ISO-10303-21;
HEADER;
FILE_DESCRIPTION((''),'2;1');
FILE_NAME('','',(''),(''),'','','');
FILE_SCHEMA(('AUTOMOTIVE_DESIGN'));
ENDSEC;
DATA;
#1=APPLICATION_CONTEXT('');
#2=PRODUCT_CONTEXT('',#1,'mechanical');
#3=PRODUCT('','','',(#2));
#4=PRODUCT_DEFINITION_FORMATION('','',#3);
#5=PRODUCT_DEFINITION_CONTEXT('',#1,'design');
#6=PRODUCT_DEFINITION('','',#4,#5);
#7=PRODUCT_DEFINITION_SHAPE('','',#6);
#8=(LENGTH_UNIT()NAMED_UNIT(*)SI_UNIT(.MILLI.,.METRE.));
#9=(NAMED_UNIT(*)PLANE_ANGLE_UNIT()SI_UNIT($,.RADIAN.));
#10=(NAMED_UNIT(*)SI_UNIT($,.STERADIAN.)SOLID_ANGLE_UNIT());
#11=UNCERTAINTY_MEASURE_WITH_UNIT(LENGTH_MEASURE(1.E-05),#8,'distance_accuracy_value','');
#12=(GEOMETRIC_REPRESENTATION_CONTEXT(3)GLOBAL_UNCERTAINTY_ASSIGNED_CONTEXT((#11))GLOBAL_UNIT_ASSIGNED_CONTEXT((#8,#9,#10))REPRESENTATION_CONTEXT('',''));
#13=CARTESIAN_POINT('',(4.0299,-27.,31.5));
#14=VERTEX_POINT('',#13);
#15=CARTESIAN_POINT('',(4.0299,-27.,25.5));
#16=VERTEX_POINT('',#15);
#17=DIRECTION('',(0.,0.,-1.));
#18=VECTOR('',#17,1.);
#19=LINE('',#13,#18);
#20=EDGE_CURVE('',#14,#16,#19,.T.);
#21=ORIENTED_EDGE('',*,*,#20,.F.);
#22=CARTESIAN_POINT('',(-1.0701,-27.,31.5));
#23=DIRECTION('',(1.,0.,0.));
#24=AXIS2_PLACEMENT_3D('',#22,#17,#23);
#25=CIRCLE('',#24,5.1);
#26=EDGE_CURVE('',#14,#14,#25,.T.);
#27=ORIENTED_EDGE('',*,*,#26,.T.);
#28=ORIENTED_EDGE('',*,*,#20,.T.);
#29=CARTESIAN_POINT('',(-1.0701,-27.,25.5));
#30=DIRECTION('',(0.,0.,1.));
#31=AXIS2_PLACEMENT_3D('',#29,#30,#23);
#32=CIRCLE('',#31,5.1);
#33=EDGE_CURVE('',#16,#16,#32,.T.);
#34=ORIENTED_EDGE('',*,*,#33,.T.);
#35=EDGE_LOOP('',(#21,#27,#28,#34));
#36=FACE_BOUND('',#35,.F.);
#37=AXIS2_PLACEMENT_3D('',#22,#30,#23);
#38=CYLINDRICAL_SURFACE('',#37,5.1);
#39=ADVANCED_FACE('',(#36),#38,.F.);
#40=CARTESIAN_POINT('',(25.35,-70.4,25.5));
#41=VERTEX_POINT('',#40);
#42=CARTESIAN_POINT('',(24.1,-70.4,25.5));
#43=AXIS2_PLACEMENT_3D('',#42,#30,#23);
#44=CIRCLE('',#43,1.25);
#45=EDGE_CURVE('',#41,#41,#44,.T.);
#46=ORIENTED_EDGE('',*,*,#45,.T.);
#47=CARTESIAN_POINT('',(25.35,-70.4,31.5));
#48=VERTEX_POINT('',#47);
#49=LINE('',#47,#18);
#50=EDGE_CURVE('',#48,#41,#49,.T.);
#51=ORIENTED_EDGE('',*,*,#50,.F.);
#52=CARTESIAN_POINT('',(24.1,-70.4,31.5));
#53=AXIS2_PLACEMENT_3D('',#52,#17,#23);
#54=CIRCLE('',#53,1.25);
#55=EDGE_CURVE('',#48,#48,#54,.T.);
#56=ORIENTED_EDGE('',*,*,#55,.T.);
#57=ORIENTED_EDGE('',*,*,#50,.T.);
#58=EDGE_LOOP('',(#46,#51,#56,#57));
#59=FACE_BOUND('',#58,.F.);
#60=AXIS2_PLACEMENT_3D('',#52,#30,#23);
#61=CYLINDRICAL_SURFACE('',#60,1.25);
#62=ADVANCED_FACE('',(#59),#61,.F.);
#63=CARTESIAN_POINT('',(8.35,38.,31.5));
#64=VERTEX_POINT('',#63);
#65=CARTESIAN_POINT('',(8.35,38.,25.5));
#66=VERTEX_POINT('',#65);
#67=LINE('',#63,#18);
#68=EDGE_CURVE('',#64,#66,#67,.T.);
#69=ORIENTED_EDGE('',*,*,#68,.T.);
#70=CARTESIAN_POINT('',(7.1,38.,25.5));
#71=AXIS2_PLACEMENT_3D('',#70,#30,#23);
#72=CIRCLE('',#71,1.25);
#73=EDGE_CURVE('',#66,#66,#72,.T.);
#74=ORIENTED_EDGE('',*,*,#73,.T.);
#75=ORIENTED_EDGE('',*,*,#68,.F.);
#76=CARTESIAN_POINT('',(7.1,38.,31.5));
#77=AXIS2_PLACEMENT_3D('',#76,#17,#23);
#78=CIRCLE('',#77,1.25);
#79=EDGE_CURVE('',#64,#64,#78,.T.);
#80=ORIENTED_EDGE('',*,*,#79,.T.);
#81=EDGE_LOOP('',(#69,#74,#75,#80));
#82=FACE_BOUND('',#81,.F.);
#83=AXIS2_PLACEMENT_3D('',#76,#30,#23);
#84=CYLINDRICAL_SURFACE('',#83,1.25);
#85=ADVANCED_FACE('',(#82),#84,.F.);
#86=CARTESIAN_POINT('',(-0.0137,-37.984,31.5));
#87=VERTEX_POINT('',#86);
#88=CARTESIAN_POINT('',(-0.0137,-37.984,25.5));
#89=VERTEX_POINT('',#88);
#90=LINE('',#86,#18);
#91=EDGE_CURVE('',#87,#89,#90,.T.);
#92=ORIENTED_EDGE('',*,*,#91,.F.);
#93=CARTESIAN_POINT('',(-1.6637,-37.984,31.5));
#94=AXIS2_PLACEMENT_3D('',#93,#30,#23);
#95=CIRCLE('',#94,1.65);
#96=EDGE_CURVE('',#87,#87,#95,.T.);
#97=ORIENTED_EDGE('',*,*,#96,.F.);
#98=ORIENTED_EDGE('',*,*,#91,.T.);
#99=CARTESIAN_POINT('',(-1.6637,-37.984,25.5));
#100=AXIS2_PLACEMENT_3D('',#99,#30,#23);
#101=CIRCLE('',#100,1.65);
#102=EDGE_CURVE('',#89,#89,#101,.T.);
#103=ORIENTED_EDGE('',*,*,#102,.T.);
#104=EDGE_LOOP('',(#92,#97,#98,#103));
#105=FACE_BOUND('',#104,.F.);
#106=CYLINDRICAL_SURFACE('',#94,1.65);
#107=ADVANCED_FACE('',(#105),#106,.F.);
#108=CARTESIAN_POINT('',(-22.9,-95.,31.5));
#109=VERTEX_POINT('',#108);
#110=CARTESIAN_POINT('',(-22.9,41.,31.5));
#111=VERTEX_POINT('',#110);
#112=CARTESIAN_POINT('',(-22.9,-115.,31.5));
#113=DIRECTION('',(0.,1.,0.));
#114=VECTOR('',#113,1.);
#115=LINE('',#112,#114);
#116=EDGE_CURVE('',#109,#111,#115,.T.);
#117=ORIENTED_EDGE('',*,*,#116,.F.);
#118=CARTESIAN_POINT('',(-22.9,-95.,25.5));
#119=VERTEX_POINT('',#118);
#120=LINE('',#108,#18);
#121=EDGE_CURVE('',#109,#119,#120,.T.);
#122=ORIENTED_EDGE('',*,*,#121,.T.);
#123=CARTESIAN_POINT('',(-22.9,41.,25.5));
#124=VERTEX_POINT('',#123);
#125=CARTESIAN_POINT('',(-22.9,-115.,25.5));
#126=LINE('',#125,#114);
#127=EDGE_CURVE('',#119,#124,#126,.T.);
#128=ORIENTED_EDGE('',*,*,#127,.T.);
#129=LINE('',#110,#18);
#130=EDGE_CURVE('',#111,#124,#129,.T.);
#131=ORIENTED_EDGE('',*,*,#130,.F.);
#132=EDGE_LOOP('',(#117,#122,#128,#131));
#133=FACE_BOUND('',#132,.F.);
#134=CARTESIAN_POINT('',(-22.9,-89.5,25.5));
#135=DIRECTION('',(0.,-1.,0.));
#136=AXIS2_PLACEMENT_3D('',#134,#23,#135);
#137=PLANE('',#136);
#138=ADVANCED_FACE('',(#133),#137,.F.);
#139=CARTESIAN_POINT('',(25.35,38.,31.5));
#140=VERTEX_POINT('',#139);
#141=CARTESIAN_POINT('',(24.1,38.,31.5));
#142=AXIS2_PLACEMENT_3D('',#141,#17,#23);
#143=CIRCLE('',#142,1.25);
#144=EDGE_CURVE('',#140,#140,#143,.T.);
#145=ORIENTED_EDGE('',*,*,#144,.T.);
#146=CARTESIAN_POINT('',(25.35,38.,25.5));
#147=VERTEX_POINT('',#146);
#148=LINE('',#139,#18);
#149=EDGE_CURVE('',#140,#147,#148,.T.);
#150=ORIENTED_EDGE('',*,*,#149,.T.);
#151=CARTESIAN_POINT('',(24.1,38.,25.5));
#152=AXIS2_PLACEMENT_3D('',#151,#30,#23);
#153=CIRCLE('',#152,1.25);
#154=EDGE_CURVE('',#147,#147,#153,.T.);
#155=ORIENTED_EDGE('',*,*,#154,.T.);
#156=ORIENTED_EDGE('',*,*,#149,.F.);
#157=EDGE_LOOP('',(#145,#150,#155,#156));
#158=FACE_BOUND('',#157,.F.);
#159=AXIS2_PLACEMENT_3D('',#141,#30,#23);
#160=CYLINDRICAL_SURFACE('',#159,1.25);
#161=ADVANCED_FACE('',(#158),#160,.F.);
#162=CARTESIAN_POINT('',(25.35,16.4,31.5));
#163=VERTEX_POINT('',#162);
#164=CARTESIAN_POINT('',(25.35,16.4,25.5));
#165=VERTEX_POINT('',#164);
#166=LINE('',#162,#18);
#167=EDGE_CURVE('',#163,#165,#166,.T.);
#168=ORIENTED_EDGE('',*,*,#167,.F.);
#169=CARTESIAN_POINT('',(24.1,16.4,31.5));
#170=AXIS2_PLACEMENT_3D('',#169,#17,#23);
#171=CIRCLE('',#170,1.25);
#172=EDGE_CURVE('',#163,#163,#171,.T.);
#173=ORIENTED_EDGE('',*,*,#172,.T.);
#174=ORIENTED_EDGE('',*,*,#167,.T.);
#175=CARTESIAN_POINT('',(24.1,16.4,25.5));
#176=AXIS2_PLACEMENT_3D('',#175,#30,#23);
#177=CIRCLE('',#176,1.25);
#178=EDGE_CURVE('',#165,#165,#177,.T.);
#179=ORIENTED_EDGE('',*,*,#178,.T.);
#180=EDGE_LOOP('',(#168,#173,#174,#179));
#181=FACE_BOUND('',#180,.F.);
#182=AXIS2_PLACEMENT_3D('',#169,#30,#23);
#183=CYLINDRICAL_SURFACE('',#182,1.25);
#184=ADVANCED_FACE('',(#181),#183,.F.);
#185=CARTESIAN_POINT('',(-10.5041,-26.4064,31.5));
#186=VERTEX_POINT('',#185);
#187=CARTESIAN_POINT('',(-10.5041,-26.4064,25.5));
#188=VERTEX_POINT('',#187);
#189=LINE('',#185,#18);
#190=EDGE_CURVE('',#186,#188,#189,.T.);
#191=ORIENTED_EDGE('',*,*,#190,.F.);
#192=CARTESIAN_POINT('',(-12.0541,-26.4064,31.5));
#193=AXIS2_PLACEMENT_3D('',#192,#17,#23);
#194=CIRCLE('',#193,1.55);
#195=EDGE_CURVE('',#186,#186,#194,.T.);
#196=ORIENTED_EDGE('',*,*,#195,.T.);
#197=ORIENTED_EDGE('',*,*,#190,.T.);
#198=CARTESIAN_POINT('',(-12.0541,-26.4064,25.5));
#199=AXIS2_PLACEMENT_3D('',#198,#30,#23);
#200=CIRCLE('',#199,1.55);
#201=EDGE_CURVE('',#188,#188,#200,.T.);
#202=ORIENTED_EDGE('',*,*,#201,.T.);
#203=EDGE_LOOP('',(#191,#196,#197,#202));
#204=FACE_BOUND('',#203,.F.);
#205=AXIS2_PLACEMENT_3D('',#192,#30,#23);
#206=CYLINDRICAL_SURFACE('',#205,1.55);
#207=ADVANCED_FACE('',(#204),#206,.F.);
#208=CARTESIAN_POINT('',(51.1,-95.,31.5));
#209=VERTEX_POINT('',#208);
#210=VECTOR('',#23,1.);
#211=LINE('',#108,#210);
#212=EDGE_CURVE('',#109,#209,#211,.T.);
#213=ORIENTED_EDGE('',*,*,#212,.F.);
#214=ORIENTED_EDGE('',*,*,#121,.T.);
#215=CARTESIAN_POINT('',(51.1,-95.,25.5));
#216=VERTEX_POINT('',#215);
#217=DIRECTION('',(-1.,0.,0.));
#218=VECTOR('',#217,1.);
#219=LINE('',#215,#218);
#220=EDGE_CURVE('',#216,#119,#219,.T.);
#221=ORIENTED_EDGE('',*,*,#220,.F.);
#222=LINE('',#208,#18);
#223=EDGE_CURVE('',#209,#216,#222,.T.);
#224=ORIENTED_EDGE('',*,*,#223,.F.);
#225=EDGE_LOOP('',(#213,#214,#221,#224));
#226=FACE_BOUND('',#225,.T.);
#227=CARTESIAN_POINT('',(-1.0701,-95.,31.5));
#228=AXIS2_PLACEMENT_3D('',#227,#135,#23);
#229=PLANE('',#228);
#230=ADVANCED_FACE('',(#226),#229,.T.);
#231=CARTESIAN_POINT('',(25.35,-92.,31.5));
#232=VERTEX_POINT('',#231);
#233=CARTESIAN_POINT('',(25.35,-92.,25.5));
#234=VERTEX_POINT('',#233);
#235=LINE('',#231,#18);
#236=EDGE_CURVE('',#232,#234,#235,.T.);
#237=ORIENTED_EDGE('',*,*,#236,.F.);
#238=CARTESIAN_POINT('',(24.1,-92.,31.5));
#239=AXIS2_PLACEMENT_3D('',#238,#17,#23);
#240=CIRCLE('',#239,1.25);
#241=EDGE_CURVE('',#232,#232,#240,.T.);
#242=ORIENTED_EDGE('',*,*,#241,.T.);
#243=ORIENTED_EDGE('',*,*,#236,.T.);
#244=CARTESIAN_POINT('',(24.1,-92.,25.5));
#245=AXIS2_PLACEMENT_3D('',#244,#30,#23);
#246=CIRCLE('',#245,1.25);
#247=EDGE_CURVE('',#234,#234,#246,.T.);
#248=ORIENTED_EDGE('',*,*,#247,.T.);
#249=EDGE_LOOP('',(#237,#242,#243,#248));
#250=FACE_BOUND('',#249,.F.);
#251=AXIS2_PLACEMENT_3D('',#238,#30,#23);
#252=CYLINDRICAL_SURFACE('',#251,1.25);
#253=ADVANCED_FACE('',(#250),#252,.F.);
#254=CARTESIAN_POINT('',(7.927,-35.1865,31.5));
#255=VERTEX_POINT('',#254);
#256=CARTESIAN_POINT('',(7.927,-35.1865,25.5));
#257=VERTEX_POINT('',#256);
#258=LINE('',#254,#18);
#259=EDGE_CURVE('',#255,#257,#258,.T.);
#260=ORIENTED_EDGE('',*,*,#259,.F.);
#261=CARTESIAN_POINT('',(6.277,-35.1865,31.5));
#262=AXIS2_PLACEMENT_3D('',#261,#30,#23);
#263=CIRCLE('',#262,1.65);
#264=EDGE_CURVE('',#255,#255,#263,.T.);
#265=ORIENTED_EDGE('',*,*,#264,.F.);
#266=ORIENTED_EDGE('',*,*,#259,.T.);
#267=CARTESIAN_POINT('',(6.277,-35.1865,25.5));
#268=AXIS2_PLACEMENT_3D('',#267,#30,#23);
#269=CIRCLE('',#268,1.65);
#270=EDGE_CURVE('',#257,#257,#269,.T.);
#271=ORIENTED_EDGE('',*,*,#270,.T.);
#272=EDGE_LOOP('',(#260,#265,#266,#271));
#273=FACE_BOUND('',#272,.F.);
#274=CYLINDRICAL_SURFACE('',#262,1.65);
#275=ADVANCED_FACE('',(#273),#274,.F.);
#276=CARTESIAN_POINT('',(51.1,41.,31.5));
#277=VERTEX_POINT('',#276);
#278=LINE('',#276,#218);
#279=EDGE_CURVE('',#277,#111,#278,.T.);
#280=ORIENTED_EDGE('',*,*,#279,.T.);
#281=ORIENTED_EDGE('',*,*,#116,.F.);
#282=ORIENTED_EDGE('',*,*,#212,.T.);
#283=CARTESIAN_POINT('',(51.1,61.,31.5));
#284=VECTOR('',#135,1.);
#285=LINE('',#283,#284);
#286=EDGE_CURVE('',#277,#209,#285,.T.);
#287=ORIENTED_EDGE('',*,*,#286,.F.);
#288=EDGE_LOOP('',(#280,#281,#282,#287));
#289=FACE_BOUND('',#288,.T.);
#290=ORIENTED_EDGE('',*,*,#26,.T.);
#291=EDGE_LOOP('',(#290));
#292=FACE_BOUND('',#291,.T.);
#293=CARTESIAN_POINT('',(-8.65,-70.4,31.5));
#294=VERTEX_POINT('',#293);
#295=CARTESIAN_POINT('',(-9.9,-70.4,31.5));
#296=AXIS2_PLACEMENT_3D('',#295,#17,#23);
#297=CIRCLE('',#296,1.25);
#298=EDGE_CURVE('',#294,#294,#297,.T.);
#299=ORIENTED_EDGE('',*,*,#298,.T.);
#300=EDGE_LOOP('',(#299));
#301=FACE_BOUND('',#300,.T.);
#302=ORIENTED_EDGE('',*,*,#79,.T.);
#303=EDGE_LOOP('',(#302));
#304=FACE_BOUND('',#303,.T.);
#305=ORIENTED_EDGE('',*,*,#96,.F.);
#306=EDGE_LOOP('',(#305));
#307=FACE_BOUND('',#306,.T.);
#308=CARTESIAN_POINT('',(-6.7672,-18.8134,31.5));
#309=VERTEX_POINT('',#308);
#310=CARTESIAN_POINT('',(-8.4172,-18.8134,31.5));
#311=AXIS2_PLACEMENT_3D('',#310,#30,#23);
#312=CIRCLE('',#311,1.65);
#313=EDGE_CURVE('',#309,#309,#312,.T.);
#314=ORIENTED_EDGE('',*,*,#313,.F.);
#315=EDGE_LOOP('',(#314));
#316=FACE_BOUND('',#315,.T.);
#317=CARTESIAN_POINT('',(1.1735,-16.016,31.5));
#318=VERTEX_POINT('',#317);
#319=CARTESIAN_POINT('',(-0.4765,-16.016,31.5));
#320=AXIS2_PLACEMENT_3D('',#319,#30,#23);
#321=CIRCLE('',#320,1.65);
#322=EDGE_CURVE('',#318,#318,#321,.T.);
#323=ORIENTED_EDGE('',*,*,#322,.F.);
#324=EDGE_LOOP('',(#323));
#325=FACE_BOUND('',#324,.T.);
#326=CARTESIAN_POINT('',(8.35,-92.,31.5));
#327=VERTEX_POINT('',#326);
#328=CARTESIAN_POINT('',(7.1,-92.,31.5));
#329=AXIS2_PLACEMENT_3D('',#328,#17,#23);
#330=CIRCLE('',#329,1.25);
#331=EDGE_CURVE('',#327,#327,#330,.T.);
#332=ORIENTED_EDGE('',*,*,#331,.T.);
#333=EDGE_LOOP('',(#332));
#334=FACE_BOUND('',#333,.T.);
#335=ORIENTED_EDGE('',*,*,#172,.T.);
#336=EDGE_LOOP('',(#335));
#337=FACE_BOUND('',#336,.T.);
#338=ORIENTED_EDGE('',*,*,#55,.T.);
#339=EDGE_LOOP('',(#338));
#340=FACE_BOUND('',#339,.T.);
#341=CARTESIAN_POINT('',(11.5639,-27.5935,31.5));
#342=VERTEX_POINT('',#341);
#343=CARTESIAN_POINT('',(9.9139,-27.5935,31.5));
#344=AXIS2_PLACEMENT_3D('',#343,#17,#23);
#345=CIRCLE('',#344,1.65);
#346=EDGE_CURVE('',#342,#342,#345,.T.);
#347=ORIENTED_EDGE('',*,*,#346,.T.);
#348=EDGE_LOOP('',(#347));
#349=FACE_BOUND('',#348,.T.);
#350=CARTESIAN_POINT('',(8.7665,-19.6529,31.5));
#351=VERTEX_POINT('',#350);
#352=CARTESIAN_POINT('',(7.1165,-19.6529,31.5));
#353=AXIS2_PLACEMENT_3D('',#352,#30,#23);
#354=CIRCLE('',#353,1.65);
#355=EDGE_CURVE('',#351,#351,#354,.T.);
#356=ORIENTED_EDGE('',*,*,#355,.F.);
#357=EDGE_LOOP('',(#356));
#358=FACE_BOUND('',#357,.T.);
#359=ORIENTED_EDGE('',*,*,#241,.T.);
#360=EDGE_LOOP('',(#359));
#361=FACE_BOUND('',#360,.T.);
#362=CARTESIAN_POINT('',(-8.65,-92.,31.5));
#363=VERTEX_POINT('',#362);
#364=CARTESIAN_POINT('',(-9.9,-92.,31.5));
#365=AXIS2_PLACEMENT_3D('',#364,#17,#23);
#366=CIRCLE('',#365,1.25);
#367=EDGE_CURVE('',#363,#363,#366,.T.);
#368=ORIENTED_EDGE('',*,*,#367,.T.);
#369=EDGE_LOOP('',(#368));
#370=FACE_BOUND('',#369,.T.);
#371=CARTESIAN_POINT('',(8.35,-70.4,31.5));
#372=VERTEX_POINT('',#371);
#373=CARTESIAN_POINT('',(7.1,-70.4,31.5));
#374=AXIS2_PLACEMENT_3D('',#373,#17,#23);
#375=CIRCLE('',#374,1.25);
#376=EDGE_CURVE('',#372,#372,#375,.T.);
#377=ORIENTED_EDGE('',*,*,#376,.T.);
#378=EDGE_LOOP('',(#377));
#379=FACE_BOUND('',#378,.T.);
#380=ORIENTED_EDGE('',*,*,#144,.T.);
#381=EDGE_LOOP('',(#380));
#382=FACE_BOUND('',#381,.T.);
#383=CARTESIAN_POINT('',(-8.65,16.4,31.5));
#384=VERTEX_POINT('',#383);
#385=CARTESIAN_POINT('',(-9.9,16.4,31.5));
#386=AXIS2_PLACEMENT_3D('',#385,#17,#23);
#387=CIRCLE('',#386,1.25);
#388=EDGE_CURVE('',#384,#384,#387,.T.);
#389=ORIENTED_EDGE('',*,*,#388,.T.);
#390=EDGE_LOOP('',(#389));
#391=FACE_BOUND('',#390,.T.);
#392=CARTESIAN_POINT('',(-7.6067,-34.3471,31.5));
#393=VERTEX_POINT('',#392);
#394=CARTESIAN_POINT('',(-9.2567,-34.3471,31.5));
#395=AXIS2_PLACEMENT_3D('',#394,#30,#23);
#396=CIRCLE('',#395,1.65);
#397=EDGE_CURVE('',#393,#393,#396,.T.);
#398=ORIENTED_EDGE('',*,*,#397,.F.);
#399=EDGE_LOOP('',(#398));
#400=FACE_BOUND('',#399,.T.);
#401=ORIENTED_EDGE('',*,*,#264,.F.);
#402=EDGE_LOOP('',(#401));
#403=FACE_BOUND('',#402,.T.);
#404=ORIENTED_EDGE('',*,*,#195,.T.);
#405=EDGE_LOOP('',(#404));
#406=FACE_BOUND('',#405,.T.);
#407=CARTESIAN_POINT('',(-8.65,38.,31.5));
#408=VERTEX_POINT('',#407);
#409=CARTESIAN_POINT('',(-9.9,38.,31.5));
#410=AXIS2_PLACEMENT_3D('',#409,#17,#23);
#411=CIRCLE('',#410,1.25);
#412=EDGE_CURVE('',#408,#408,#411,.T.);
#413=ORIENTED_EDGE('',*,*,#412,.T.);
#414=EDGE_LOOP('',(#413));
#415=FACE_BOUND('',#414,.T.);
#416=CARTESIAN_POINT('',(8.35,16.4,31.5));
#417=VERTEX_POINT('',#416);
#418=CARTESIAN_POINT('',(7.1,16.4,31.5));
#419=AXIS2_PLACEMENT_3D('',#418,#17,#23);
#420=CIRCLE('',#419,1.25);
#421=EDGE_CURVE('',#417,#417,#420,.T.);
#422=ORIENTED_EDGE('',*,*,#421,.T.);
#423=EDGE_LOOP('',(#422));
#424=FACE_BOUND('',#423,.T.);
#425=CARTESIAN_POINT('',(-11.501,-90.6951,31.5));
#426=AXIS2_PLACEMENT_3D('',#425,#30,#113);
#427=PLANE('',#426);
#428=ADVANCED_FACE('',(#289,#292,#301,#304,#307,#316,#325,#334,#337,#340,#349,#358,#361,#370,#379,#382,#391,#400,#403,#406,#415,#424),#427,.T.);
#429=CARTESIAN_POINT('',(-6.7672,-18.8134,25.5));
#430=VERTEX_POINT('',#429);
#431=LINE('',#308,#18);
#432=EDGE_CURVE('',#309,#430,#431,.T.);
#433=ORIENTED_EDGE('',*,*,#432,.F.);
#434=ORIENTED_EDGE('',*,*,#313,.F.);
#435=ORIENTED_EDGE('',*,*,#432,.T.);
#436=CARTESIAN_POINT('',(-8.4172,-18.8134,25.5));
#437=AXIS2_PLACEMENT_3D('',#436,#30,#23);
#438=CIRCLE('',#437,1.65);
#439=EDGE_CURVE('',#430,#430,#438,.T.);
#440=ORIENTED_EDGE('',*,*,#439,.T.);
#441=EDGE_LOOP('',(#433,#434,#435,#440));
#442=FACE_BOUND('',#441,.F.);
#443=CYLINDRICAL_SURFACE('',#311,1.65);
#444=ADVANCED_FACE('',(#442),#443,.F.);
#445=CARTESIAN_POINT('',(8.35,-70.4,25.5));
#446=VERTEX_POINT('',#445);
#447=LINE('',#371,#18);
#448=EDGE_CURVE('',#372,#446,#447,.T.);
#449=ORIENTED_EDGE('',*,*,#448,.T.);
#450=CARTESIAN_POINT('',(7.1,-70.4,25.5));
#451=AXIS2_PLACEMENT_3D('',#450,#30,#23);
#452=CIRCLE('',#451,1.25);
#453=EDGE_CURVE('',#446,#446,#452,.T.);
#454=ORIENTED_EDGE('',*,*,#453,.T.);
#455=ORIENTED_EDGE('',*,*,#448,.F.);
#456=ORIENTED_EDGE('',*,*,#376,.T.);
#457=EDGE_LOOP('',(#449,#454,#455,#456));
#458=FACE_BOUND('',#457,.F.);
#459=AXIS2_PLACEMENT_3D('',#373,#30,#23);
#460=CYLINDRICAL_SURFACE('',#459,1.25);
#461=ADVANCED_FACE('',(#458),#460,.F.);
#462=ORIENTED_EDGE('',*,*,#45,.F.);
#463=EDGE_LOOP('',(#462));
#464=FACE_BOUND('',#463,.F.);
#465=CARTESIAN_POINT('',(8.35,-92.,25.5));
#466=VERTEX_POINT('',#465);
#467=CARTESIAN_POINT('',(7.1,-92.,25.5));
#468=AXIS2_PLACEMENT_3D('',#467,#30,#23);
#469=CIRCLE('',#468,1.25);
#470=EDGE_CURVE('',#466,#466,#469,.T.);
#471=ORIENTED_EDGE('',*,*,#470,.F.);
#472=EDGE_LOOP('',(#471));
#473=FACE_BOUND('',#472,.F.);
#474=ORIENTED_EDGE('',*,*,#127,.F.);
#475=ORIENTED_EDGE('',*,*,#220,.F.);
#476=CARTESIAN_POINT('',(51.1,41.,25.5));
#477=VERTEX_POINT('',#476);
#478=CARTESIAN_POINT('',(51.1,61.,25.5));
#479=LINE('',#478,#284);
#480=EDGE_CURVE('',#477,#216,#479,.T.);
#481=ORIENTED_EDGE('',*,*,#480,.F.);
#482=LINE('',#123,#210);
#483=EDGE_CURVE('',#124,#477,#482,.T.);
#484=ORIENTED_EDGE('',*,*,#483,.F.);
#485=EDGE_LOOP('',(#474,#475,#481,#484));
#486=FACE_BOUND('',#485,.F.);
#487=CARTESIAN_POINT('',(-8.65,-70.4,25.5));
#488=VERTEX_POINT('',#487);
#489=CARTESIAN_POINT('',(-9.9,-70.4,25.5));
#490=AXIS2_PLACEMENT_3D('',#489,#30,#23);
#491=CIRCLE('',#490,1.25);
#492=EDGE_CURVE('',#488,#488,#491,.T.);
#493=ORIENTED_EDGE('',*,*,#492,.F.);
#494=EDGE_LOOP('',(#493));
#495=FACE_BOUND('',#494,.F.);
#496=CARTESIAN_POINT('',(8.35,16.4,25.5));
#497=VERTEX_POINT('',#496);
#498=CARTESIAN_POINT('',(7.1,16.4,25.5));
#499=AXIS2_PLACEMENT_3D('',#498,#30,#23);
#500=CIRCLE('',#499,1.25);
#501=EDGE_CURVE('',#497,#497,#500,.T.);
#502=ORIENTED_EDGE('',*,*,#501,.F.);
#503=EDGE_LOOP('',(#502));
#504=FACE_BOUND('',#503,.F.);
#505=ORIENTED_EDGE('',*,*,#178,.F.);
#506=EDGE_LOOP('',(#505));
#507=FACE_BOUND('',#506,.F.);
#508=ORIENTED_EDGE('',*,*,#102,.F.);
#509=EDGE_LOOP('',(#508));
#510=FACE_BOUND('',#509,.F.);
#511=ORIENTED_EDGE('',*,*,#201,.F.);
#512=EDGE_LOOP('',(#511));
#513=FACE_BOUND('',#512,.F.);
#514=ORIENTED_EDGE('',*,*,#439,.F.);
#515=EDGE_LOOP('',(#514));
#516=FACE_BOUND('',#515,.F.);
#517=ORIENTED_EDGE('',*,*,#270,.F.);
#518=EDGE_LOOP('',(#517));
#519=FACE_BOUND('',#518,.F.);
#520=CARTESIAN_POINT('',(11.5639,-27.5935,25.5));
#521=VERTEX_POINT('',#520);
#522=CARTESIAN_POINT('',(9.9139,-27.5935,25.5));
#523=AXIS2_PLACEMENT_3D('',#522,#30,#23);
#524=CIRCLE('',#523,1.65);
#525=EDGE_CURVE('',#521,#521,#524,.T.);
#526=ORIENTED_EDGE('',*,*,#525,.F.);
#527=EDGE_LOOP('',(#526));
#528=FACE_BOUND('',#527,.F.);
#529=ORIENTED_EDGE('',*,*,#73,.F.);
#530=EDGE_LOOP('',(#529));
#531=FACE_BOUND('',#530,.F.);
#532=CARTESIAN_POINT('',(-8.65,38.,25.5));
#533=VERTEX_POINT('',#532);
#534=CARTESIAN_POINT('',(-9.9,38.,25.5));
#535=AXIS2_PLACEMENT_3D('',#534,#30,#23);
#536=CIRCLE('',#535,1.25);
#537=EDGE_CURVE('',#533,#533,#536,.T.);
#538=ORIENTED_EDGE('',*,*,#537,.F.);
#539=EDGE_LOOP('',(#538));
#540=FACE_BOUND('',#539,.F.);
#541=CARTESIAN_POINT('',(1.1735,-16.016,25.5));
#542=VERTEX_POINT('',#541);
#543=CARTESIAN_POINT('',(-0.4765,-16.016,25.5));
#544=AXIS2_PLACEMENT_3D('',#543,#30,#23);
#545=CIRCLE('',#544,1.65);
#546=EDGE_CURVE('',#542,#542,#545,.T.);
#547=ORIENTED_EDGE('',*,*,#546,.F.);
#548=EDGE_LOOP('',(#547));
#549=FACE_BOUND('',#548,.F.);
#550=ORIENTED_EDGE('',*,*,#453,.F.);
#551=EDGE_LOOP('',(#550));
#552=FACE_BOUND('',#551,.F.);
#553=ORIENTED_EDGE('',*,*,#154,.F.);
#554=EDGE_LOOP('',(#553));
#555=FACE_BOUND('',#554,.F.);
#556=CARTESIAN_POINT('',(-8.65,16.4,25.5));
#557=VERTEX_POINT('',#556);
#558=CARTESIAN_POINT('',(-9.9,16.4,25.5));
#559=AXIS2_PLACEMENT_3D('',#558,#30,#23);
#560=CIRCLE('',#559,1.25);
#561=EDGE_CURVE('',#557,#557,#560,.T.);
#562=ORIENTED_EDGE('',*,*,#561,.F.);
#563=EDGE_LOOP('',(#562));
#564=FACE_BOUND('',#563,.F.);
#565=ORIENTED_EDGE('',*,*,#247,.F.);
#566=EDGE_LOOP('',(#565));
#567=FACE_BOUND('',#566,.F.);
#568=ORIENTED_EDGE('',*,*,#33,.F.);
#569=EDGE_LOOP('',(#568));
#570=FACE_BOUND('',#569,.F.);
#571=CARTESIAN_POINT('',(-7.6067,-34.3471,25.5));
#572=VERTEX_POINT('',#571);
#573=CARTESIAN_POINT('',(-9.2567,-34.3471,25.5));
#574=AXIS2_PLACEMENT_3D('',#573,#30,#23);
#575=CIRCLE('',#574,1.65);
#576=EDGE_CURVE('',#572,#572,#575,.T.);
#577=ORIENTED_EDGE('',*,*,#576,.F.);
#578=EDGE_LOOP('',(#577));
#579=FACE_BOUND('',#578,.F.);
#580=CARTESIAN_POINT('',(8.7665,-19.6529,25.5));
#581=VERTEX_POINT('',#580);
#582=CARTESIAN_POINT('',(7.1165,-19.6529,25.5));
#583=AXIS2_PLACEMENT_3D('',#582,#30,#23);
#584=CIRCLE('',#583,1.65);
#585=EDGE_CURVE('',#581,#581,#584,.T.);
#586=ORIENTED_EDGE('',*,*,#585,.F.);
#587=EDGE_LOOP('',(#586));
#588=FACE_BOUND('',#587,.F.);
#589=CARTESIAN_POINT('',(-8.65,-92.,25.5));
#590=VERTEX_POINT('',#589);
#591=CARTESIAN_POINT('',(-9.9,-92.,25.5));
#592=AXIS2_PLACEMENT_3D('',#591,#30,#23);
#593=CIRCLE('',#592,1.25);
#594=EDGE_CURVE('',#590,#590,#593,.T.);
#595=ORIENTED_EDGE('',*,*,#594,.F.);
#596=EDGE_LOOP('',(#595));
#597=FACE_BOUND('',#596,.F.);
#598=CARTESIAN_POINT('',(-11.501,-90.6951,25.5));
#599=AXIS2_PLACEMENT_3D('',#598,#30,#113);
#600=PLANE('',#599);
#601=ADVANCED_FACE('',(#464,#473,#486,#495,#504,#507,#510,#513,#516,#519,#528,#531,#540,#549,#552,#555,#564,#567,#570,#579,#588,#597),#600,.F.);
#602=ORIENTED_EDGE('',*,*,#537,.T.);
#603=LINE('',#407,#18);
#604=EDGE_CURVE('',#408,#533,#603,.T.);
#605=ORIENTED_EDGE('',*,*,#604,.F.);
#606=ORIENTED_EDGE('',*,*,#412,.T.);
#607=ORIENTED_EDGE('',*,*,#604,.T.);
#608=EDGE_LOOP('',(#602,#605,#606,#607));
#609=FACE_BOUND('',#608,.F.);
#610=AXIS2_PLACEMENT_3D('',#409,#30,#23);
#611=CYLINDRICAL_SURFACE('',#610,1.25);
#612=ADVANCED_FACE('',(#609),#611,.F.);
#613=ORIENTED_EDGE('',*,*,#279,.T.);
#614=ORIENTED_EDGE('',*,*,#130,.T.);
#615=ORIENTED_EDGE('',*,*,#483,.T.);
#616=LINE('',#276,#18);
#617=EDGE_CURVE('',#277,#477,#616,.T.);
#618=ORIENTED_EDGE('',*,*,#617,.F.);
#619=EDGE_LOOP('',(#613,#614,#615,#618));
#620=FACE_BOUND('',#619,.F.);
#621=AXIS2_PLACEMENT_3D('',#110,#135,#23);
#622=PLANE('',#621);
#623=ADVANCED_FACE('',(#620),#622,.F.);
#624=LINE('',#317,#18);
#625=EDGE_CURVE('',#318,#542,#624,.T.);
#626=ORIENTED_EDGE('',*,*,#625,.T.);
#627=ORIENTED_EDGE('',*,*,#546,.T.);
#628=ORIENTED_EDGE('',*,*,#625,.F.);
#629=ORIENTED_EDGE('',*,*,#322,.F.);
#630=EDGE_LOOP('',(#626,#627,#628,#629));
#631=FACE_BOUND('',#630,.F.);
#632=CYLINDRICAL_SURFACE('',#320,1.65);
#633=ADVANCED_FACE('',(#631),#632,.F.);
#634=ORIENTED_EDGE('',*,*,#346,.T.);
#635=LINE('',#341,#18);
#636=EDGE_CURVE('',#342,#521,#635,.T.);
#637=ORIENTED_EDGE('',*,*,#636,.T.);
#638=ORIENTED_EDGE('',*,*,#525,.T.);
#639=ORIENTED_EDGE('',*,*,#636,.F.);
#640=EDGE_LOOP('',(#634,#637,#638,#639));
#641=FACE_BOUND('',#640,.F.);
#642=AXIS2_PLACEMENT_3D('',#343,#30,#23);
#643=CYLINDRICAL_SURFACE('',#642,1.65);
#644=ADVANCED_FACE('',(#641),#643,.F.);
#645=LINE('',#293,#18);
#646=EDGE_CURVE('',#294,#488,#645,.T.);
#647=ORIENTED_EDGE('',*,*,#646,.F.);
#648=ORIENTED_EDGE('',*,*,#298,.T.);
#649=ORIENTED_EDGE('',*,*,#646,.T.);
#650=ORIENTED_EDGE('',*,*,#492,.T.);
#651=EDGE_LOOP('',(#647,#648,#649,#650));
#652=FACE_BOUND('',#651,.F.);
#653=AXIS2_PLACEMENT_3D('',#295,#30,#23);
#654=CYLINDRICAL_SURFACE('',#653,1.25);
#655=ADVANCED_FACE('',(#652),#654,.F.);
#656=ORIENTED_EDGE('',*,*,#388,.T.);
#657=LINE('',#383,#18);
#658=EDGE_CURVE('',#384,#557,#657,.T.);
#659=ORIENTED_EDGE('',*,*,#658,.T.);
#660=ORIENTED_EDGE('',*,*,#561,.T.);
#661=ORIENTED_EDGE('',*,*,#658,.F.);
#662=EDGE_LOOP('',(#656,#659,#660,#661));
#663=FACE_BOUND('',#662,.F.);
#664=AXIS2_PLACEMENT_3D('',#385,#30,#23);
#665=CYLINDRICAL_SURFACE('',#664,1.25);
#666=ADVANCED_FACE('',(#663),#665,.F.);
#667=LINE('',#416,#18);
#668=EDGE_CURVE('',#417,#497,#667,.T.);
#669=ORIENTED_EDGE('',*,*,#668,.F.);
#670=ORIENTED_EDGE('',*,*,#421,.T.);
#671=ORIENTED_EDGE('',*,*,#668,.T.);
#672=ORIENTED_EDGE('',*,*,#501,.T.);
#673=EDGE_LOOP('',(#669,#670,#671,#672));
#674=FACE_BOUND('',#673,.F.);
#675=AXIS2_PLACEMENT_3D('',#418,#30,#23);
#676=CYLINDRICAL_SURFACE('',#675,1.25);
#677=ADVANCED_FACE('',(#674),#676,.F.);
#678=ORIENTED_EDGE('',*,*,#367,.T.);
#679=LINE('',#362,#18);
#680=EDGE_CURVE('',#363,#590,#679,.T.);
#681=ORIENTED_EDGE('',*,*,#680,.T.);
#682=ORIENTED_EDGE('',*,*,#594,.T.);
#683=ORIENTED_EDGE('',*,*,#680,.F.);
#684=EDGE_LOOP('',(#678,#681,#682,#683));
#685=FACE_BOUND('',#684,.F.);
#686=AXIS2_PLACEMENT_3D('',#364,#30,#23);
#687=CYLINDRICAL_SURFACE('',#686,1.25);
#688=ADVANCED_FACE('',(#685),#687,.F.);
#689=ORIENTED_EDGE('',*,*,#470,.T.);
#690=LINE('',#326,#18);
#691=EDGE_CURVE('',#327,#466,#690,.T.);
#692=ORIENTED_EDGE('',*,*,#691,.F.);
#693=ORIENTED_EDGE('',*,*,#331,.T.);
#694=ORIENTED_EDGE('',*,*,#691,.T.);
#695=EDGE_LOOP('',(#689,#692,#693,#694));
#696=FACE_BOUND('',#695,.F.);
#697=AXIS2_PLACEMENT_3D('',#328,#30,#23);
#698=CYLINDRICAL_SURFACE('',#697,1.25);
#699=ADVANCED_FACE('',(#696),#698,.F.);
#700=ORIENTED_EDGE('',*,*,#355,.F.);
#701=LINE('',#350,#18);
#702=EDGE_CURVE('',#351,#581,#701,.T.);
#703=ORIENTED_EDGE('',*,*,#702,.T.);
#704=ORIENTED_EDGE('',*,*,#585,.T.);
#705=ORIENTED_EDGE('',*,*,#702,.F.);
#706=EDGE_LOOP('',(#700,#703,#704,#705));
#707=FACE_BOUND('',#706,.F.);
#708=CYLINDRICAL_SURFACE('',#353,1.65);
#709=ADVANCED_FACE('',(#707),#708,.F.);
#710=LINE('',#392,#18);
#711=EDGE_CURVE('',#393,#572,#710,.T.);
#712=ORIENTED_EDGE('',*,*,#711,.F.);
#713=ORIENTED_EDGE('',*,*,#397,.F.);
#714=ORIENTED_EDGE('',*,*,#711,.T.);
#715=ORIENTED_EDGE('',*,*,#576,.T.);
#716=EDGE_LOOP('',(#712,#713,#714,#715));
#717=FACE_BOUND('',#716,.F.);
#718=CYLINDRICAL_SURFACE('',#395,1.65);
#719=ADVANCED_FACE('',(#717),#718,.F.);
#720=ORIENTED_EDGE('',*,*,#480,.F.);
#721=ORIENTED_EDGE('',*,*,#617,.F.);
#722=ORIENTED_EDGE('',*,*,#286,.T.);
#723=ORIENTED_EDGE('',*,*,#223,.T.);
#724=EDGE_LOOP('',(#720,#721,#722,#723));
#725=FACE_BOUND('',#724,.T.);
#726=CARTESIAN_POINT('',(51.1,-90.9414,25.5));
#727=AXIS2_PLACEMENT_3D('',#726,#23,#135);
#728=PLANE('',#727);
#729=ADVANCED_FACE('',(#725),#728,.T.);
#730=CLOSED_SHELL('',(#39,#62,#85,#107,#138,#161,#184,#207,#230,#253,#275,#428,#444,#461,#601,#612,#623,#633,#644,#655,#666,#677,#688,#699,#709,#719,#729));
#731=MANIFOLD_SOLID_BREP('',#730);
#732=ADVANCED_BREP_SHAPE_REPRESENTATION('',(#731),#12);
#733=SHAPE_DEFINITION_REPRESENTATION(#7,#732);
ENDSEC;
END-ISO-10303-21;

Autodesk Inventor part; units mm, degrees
ref_plane "YZ Plane" through (0, 0, 0) normal (1, 0, 0) x (0, 1, 0)
ref_plane "XZ Plane" through (0, 0, 0) normal (0, 1, 0) x (-1, 0, 0)
ref_plane "XY Plane" through (0, 0, 0) normal (0, 0, 1) x (1, 0, 0)
ref_plane "작업 평면1" through (-11.501, -90.6951, 25.5) normal (0, 0, 1) x (0, 1, 0)
sketch "스케치1" plane through (-11.501, -90.6951, 25.5) normal (0, 0, 1) x (0, 1, 0)
  line L0 (-0.0049, 0) -> (27.5951, 0) projected
  line L1 (27.5951, 0) -> (27.5951, 6) projected
  line L2 (-0.0049, 6) -> (27.5951, 6) projected
  line L3 (-0.0049, 0) -> (-0.0049, 6) projected
  line L4 (127.3951, 6) -> (99.7951, 6) projected
  line L5 (99.7951, 6) -> (99.7951, 0) projected
  line L6 (127.3951, 0) -> (99.7951, 0) projected
  line L7 (127.3951, 6) -> (127.3951, 0) projected
  line L8 (99.8951, -54.101) -> (127.4951, -54.101) projected
  line L9 (127.4951, -54.101) -> (127.4951, -48.101) projected
  line L10 (99.8951, -48.101) -> (127.4951, -48.101) projected
  line L11 (99.8951, -54.101) -> (99.8951, -48.101) projected
  line L12 (27.4951, -48.101) -> (-0.1049, -48.101) projected
  line L13 (-0.1049, -48.101) -> (-0.1049, -54.101) projected
  line L14 (27.4951, -54.101) -> (-0.1049, -54.101) projected
  line L15 (27.4951, -48.101) -> (27.4951, -54.101) projected
  line L16 (-0.2463, -60.601) -> (-0.2463, -62.601) projected
  line L17 (-0.2463, -62.601) -> (1.1951, -62.601) projected
  line L18 (1.1951, -62.601) -> (1.1951, -92.601) projected
  line L19 (1.1951, -92.601) -> (-0.2463, -92.601) projected
  line L20 (-0.2463, -92.601) -> (-0.2463, -94.601) projected
  line L21 (-0.2463, -94.601) -> (6.0451, -94.601) projected
  line L22 (21.3451, -94.601) -> (6.0451, -94.601) projected
  line L23 (21.3451, -94.601) -> (27.6365, -94.601) projected
  line L24 (27.6365, -92.601) -> (27.6365, -94.601) projected
  line L25 (27.6365, -92.601) -> (26.1951, -92.601) projected
  line L26 (26.1951, -62.601) -> (26.1951, -92.601) projected
  line L27 (26.1951, -62.601) -> (27.6365, -62.601) projected
  line L28 (27.6365, -60.601) -> (27.6365, -62.601) projected
  line L29 (27.6365, -60.601) -> (26.6951, -60.601) projected
  line L30 (26.6951, -60.601) -> (26.6951, -59.101) projected
  line L31 (0.6951, -59.101) -> (26.6951, -59.101) projected
  line L32 (0.6951, -59.101) -> (0.6951, -60.601) projected
  line L33 (0.6951, -60.601) -> (-0.2463, -60.601) projected
  line L34 (35.6951, -14.501) -> (35.6951, -37.501) projected
  line L35 (35.6951, -14.501) -> (30.6951, -14.501) projected
  line L36 (30.6951, -14.501) -> (30.6951, -11.001) projected
  line L37 (28.6951, -11.001) -> (30.6951, -11.001) projected
  line L38 (28.6951, -11.001) -> (28.6951, -13.501) projected
  line L39 (28.6951, -13.501) -> (-1.3049, -13.501) projected
  line L40 (-1.3049, -13.501) -> (-1.3049, -11.001) projected
  line L41 (-1.3049, -11.001) -> (-3.3049, -11.001) projected
  line L42 (-3.3049, -11.001) -> (-3.3049, -16.751) projected
  line L43 (-5.8049, -16.751) -> (-3.3049, -16.751) projected
  spline S0 degree 3 poles (-5.8049, -16.751) (-6.0293, -16.751) (-6.2964, -16.7855) (-6.6655, -16.908) (-6.8416, -16.9972) (-7.0685, -17.1834) (-7.1685, -17.3017) (-7.2736, -17.5152) (-7.3049, -17.6421) (-7.3049, -17.751) knots -0.188065 -0.188065 -0.188065 -0.188065 -0.120738 -0.120738 -0.071394 -0.071394 -0.032672 -0.032672 0 0 0 0 projected
  line L44 (-7.3049, -34.251) -> (-7.3049, -17.751) projected
  spline S1 degree 3 poles (-7.3049, -34.251) (-7.3049, -34.3599) (-7.2736, -34.4868) (-7.1685, -34.7003) (-7.0685, -34.8186) (-6.8416, -35.0048) (-6.6655, -35.094) (-6.2964, -35.2165) (-6.0293, -35.251) (-5.8049, -35.251) knots 0 0 0 0 0.032672 0.032672 0.071394 0.071394 0.120738 0.120738 0.188065 0.188065 0.188065 0.188065 projected
  line L45 (-5.8049, -35.251) -> (-3.3049, -35.251) projected
  line L46 (-3.3049, -35.251) -> (-3.3049, -41.001) projected
  line L47 (-1.3049, -41.001) -> (-3.3049, -41.001) projected
  line L48 (-1.3049, -41.001) -> (-1.3049, -38.501) projected
  line L49 (28.6951, -38.501) -> (-1.3049, -38.501) projected
  line L50 (28.6951, -38.501) -> (28.6951, -41.001) projected
  line L51 (28.6951, -41.001) -> (30.6951, -41.001) projected
  line L52 (30.6951, -41.001) -> (30.6951, -37.501) projected
  line L53 (35.6951, -37.501) -> (30.6951, -37.501) projected
  line L54 (135.6951, -14.501) -> (135.6951, -37.501) projected
  line L55 (135.6951, -14.501) -> (130.6951, -14.501) projected
  line L56 (130.6951, -14.501) -> (130.6951, -11.001) projected
  line L57 (128.6951, -11.001) -> (130.6951, -11.001) projected
  line L58 (128.6951, -11.001) -> (128.6951, -13.501) projected
  line L59 (128.6951, -13.501) -> (98.6951, -13.501) projected
  line L60 (98.6951, -13.501) -> (98.6951, -11.001) projected
  line L61 (98.6951, -11.001) -> (96.6951, -11.001) projected
  line L62 (96.6951, -11.001) -> (96.6951, -16.751) projected
  line L63 (94.1951, -16.751) -> (96.6951, -16.751) projected
  spline S2 degree 3 poles (94.1951, -16.751) (93.9707, -16.751) (93.7036, -16.7855) (93.3345, -16.908) (93.1584, -16.9972) (92.9315, -17.1834) (92.8315, -17.3017) (92.7264, -17.5152) (92.6951, -17.6421) (92.6951, -17.751) knots -0.188065 -0.188065 -0.188065 -0.188065 -0.120738 -0.120738 -0.071394 -0.071394 -0.032672 -0.032672 0 0 0 0 projected
  line L64 (92.6951, -34.251) -> (92.6951, -17.751) projected
  spline S3 degree 3 poles (92.6951, -34.251) (92.6951, -34.3599) (92.7264, -34.4868) (92.8315, -34.7003) (92.9315, -34.8186) (93.1584, -35.0048) (93.3345, -35.094) (93.7036, -35.2165) (93.9707, -35.251) (94.1951, -35.251) knots 0 0 0 0 0.032672 0.032672 0.071394 0.071394 0.120738 0.120738 0.188065 0.188065 0.188065 0.188065 projected
  line L65 (94.1951, -35.251) -> (96.6951, -35.251) projected
  line L66 (96.6951, -35.251) -> (96.6951, -41.001) projected
  line L67 (98.6951, -41.001) -> (96.6951, -41.001) projected
  line L68 (98.6951, -41.001) -> (98.6951, -38.501) projected
  line L69 (128.6951, -38.501) -> (98.6951, -38.501) projected
  line L70 (128.6951, -38.501) -> (128.6951, -41.001) projected
  line L71 (128.6951, -41.001) -> (130.6951, -41.001) projected
  line L72 (130.6951, -41.001) -> (130.6951, -37.501) projected
  line L73 (135.6951, -37.501) -> (130.6951, -37.501) projected
  line L74 (99.7537, -60.601) -> (99.7537, -62.601) projected
  line L75 (99.7537, -62.601) -> (101.1951, -62.601) projected
  line L76 (101.1951, -62.601) -> (101.1951, -92.601) projected
  line L77 (101.1951, -92.601) -> (99.7537, -92.601) projected
  line L78 (99.7537, -92.601) -> (99.7537, -94.601) projected
  line L79 (99.7537, -94.601) -> (106.0451, -94.601) projected
  line L80 (121.3451, -94.601) -> (106.0451, -94.601) projected
  line L81 (121.3451, -94.601) -> (127.6365, -94.601) projected
  line L82 (127.6365, -92.601) -> (127.6365, -94.601) projected
  line L83 (127.6365, -92.601) -> (126.1951, -92.601) projected
  line L84 (126.1951, -62.601) -> (126.1951, -92.601) projected
  line L85 (126.1951, -62.601) -> (127.6365, -62.601) projected
  line L86 (127.6365, -60.601) -> (127.6365, -62.601) projected
  line L87 (127.6365, -60.601) -> (126.6951, -60.601) projected
  line L88 (126.6951, -60.601) -> (126.6951, -59.101) projected
  line L89 (100.6951, -59.101) -> (126.6951, -59.101) projected
  line L90 (100.6951, -59.101) -> (100.6951, -60.601) projected
  line L91 (100.6951, -60.601) -> (99.7537, -60.601) projected
  line L92 (21.3451, 6) -> (21.3451, 12)
  line L93 (1.1951, -62.601) -> (1.1951, 11.399)
  line L94 (-24.3049, -26.001) -> (-24.3049, -76.001) projected
  line L95 (-24.3049, -76.001) -> (-18.3049, -76.001) projected
  line L96 (-18.3049, -26.001) -> (-18.3049, -76.001) projected
  line L97 (-24.3049, -26.001) -> (-18.3049, -26.001) projected
  line L98 (145.6951, -26.001) -> (145.6951, -76.001) projected
  line L99 (145.6951, -76.001) -> (151.6951, -76.001) projected
  line L100 (151.6951, -26.001) -> (151.6951, -76.001) projected
  line L101 (145.6951, -26.001) -> (151.6951, -26.001) projected
  line L102 (-24.3049, -52.5323) -> (151.6951, -52.5323)
  line L103 (1.1951, 11.399) -> (-33.5056, 11.399)
  line L104 (1.1951, -62.601) -> (-24.3049, -62.601)
  line L105 (-24.3049, -62.601) -> (151.6951, -62.601)
  line L106 (151.6951, -62.601) -> (151.6951, 11.399)
  line L107 (151.6951, 11.399) -> (-24.3049, 11.399)
  line L108 (-24.3049, 11.399) -> (-24.3049, -62.601)
  circle A0 centre (-0.0049, 0) radius 1
  circle A1 centre (-0.0049, 6) radius 1
  circle A2 centre (27.5951, 6) radius 1
  circle A3 centre (27.5951, 0) radius 1
  circle A4 centre (99.7951, 0) radius 1
  circle A5 centre (99.7951, 6) radius 1
  circle A6 centre (127.3951, 6) radius 1
  circle A7 centre (127.3951, 0) radius 1
  circle A8 centre (99.8951, -54.101) radius 1
  circle A9 centre (99.8951, -48.101) radius 1
  circle A10 centre (127.4951, -48.101) radius 1
  circle A11 centre (127.6365, -54.101) radius 1
  circle A12 centre (27.4951, -54.101) radius 1
  circle A13 centre (27.5951, -48.101) radius 1
  circle A14 centre (-0.1049, -48.101) radius 1
  circle A15 centre (-0.1049, -54.101) radius 1
  point P0 (90.6951, -11.501)
  point P1 (99.8951, -49.101)
  point P2 (100.8951, -48.101)
  point P3 (126.4951, -48.101)
  point P4 (127.4951, -49.101)
  point P5 (127.4951, -53.1111)
  point P6 (126.6365, -54.101)
  point P7 (100.8951, -54.101)
  point P8 (99.8951, -53.101)
  point P9 (126.3951, 0)
  point P10 (100.7951, 0)
  point P11 (99.7951, 1)
  point P12 (99.7951, 5)
  point P13 (100.7951, 6)
  point P14 (126.3951, 6)
  point P15 (127.3951, 5)
  point P16 (127.3951, 1)
  point P17 (26.5951, 6)
  point P18 (27.5951, 5)
  point P19 (27.5951, 1)
  point P20 (26.5951, 0)
  point P21 (0.9951, 0)
  point P22 (-0.0049, 1)
  point P23 (-0.0049, 5)
  point P24 (0.9951, 6)
  point P25 (26.5951, -48.101)
  point P26 (27.4951, -49.096)
  point P27 (27.4951, -53.101)
  point P28 (26.4951, -54.101)
  point P29 (0.8951, -54.101)
  point P30 (-0.1049, -53.101)
  point P31 (-0.1049, -49.101)
  point P32 (0.8951, -48.101)
  point P33 (-0.2463, -62.601)
  point P34 (1.1951, -62.601)
  point P35 (99.7537, -62.601)
  point P36 (101.1951, -62.601)
  point P37 (126.1951, -62.601)
  point P38 (127.6365, -62.601)
  point P39 (151.6951, -62.601)
  point P40 (1.1951, 11.399)
  point P41 (-24.3049, 11.399)
  dimension "d0" = 6
  dimension "d1" = 74
  dimension "d2" = 2
  dimension "d3" = 2
  dimension "d4" = 2
  dimension "d5" = 2
  dimension "d6" = 2
  dimension "d7" = 2
  dimension "d8" = 2
  dimension "d9" = 2
  dimension "d10" = 2
  dimension "d11" = 2
  dimension "d12" = 2
  dimension "d13" = 2
  dimension "d14" = 2
  dimension "d15" = 2
  dimension "d16" = 2
  dimension "d17" = 2
extrude "돌출1" add sketch "스케치1" along normal blind 6 contours L3 A0 L0 | L0 A0 L3 | A0 L3 A1 L2 L93 L0 | L0 L93 L39 L40 L41 L42 L43 S0 L44 S1 L45 L46 L47 L48 L49 L12 A14 L13 L102 L96 L97 L108 L103 L2 A1 L3 A0 | L93 L2 A2 L1 A3 L0 | L0 A3 L1 A2 L2 L92 L107 L106 L101 L98 L102 L9 A10 L10 A9 L11 L15 A13 L12 L93 L49 L50 L51 L52 L53 L34 L35 L36 L37 L38 L39 | A1 L2 L3 | L3 L2 A1 | A3 L1 L0 | L0 L1 A3 | L93 L49 L48 L47 L46 L45 S1 L44 S0 L43 L42 L41 L40 L39 | L39 L38 L37 L36 L35 L34 L53 L52 L51 L50 L49 L93 | L93 L107 L92 L2 | A2 L2 L1 | L1 L2 A2 | L93 L102 L13 A14 L12 | L12 A13 L15 L102 L93 | A13 L15 L12 | L12 L15 A13 | A14 L13 L12 | L12 L13 A14 | L102 L15 A12 L14 L93 | L93 L14 A15 L13 L102 | L97 L96 L102 L94 | L93 L31 L32 L33 L16 L104 L96 L102 L13 A15 L14 | L14 A12 L15 L102 L11 A8 L8 A11 L9 L98 L105 L86 L87 L88 L89 L90 L91 L74 L28 L29 L30 L31 L93 | L100 L102 L98 L101 | L102 L96 L104 L94 | A12 L15 L14 | L14 L15 A12 | A15 L13 L14 | L14 L13 A15 | L93 L17 L16 L33 L32 L31 | L31 L30 L29 L28 L27 L105 L93 | L102 L9 A11 L8 A8 L11 | L11 A9 L10 A10 L9 L102 | L100 L105 L98 L102 | A8 L8 L11 | L11 L8 A8 | A9 L10 L11 | L11 L10 A9 | A11 L8 L9 | L9 L8 A11 | A10 L10 L9 | L9 L10 A10 | L85 L105 L75 L74 L91 L90 L89 L88 L87 L86 | A5 L5 L4 | L4 L5 A5 | L4 A6 L7 A7 L6 A4 L5 A5 | A6 L7 L4 | L4 L7 A6 | A4 L6 L5 | L5 L6 A4 | A7 L6 L7 | L7 L6 A7 | L54 L73 L72 L71 L70 L69 L68 L67 L66 L65 S3 L64 S2 L63 L62 L61 L60 L59 L58 L57 L56 L55
sketch "스케치3" plane through (-11.501, -90.6951, 31.5) normal (0, 0, 1) x (1, 0, 0)
  line L0 (-11.399, 151.6951) -> (-11.399, -24.3049) projected
  line L1 (-11.399, 151.6951) -> (-11.399, 63.6951)
  line L2 (62.601, -24.3049) -> (62.601, 151.6951) projected
  line L3 (62.601, 151.6951) -> (-11.399, 151.6951) projected
  line L4 (-11.399, 151.6951) -> (-11.399, -24.3049) projected
  line L5 (-11.399, -24.3049) -> (62.601, -24.3049) projected
  line L6 (-11.399, 63.6951) -> (62.601, 63.6951)
  circle A0 centre (-0.5531, 64.2887) radius 1.55 projected
  circle A1 centre (11.0245, 74.6791) radius 1.55 projected
  circle A2 centre (21.4149, 63.1016) radius 1.55 projected
  circle A3 centre (9.8373, 52.7111) radius 1.55 projected
  circle A4 centre (10.4309, 63.6951) radius 5 projected
  circle A5 centre (10.4309, 63.6951) radius 13.9 projected
  circle A6 centre (17.778, 55.5086) radius 1.55 projected
  circle A7 centre (18.6175, 71.0422) radius 1.55 projected
  circle A8 centre (3.0838, 71.8817) radius 1.55 projected
  circle A9 centre (2.2443, 56.348) radius 1.55 projected
  circle A10 centre (3.0838, 71.8817) radius 1.65
  circle A11 centre (-0.5531, 64.2887) radius 1.65
  circle A12 centre (2.2443, 56.348) radius 1.65
  circle A13 centre (9.8373, 52.7111) radius 1.65
  circle A14 centre (17.778, 55.5086) radius 1.65
  circle A15 centre (21.4149, 63.1016) radius 1.65
  circle A16 centre (18.6175, 71.0422) radius 1.65
  circle A17 centre (11.0245, 74.6791) radius 1.65
  circle A18 centre (10.4309, 63.6951) radius 5.1
  point P0 (11.501, 90.6951)
  dimension "d32" = 88
  dimension "d33" = 0.1
  dimension "d34" = 0.1
  dimension "d35" = 0.1
  dimension "d36" = 0.1
  dimension "d37" = 0.1
  dimension "d38" = 0.1
  dimension "d39" = 0.1
  dimension "d40" = 0.1
  dimension "d41" = 0.1
extrude "돌출3" cut sketch "스케치3" against normal blind 10 contours A0 L6 | L6 A0 | A15 L6 A2 | L6 A2 A15 | A18 L6 A4 | L6 A4 A18 | A2 L6 | L6 A2 | A4 L6 | L6 A4 | A1 | A3 | A6 | A7 | A8 | A9 | A10 | A12 | A13 | A14 | A16 | A17
sketch "스케치8" plane through (-11.501, -90.6951, 31.5) normal (0, 0, 1) x (1, 0, 0)
  circle A0 centre (-0.5531, 64.2887) radius 1.55 projected
  circle A1 centre (17.778, 55.5086) radius 1.65 projected
  circle A2 centre (21.4149, 63.1016) radius 1.65 projected
  circle A3 centre (10.4309, 63.6951) radius 5.1 projected
  circle A4 centre (3.0838, 71.8817) radius 1.65 projected
  circle A5 centre (9.8373, 52.7111) radius 1.65 projected
  circle A6 centre (18.6175, 71.0422) radius 1.65 projected
  circle A7 centre (2.2443, 56.348) radius 1.65 projected
  circle A8 centre (11.0245, 74.6791) radius 1.65 projected
  line L0 (62.601, -24.3049) -> (62.601, 151.6951) projected
  line L1 (62.601, 151.6951) -> (-11.399, 151.6951) projected
  line L2 (-11.399, 151.6951) -> (-11.399, -24.3049) projected
  line L3 (-11.399, -24.3049) -> (62.601, -24.3049) projected
  line L4 (-11.399, -24.3049) -> (-11.399, -4.3049)
  line L5 (-11.399, 151.6951) -> (-11.399, -24.3049) projected
  line L6 (-11.399, 151.6951) -> (-11.399, 131.6951)
  line L7 (62.601, -24.3049) -> (62.601, 151.6951) projected
  line L8 (62.601, 151.6951) -> (-11.399, 151.6951)
  line L9 (-11.399, 151.6951) -> (-11.399, 131.6951)
  line L10 (-11.399, 131.6951) -> (62.601, 131.6951)
  line L11 (62.601, 131.6951) -> (62.601, 151.6951)
  line L12 (62.601, -24.3049) -> (-11.399, -24.3049)
  line L13 (-11.399, -24.3049) -> (-11.399, -4.3049)
  line L14 (-11.399, -4.3049) -> (62.601, -4.3049)
  line L15 (62.601, -4.3049) -> (62.601, -24.3049)
  line L16 (10.4309, 63.6951) -> (10.4309, 3.6951)
  line L17 (10.4309, 63.6951) -> (10.4309, 123.6951)
  line L18 (10.4309, 123.6951) -> (10.4309, 131.6951)
  line L19 (10.4309, 3.6951) -> (10.4309, -4.3049)
  point P0 (11.501, 90.6951)
  point P1 (-11.399, 131.6951)
  point P2 (62.601, 131.6951)
  point P3 (62.601, -4.3049)
  point P4 (-11.399, -4.3049)
  dimension "d55" = 20
  dimension "d56" = 20
  dimension "d59" = 60
  dimension "d60" = 60
extrude "돌출8" cut sketch "스케치8" against normal blind 6 contours L10 L2 L1 L0 | L14 L0 L3 L2
sketch "스케치9" plane through (-11.501, -90.6951, 31.5) normal (0, 0, 1) x (1, 0, 0)
  line L0 (42.702, -4.3049) -> (42.702, 23.2951) projected
  line L1 (-5.399, -4.3049) -> (42.702, -4.3049) projected
  line L2 (-5.399, 23.2951) -> (-5.399, -4.3049) projected
  line L3 (42.702, 23.2951) -> (-5.399, 23.2951) projected
  line L4 (42.702, 104.0951) -> (42.702, 131.6951) projected
  line L5 (-5.399, 104.0951) -> (42.702, 104.0951) projected
  line L6 (-5.399, 131.6951) -> (-5.399, 104.0951) projected
  line L7 (42.702, 131.6951) -> (-5.399, 131.6951) projected
  line L8 (-5.399, -4.3049) -> (-5.399, -1.3049)
  line L9 (-5.399, -1.3049) -> (1.601, -1.3049)
  circle A0 centre (1.601, -1.3049) radius 1.25
  line L10 (1.601, -1.3049) -> (18.601, -1.3049)
  line L11 (18.601, -1.3049) -> (35.601, -1.3049)
  line L12 (35.601, -1.3049) -> (42.601, -1.3049)
  circle A1 centre (18.601, -1.3049) radius 1.25
  circle A2 centre (35.601, -1.3049) radius 1.25
  line L13 (-5.399, 23.2951) -> (-5.399, 20.2951)
  line L14 (-5.399, 23.2951) -> (-2.399, 23.2951) construction
  circle A3 centre (1.601, 20.2951) radius 1.25
  circle A4 centre (18.601, 20.2951) radius 1.25
  circle A5 centre (35.601, 20.2951) radius 1.25
  line L15 (-5.399, 104.0951) -> (-5.399, 107.0951)
  line L16 (-5.399, 107.0951) -> (1.601, 107.0951)
  line L17 (1.601, 107.0951) -> (18.601, 107.0951)
  line L18 (18.601, 107.0951) -> (35.601, 107.0951)
  line L19 (35.601, 107.0951) -> (42.601, 107.0951)
  circle A6 centre (1.601, 107.0951) radius 1.25
  circle A7 centre (18.601, 107.0951) radius 1.25
  circle A8 centre (35.601, 107.0951) radius 1.25
  line L20 (-5.399, 131.6951) -> (-5.399, 128.6951)
  circle A9 centre (1.601, 128.6951) radius 1.25
  circle A10 centre (18.601, 128.6951) radius 1.25
  circle A11 centre (35.601, 128.6951) radius 1.25
  line L21 (35.601, 107.0951) -> (35.601, 128.6951)
  line L22 (18.601, 107.0951) -> (18.601, 128.6951)
  line L23 (1.601, 107.0951) -> (1.601, 128.6951)
  line L24 (1.601, -1.3049) -> (1.601, 20.2951)
  line L25 (18.601, -1.3049) -> (18.601, 20.2951)
  line L26 (35.601, -1.3049) -> (35.601, 20.2951)
  circle A12 centre (1.601, 107.0951) radius 1.25 projected
  circle A13 centre (35.601, 128.6951) radius 1.25 projected
  circle A14 centre (18.601, 107.0951) radius 1.25 projected
  circle A15 centre (1.601, 128.6951) radius 1.25 projected
  circle A16 centre (18.601, 128.6951) radius 1.25 projected
  circle A17 centre (35.601, 107.0951) radius 1.25 projected
  circle A18 centre (1.601, -1.3049) radius 1.25 projected
  circle A19 centre (35.601, 20.2951) radius 1.25 projected
  circle A20 centre (18.601, -1.3049) radius 1.25 projected
  circle A21 centre (1.601, 20.2951) radius 1.25 projected
  circle A22 centre (18.601, 20.2951) radius 1.25 projected
  circle A23 centre (35.601, -1.3049) radius 1.25 projected
  dimension "d63" = 3
  dimension "d64" = 7
  dimension "d65" = 2.5
  dimension "d66" = 17
  dimension "d67" = 17
  dimension "d68" = 7
  dimension "d69" = 2.5
  dimension "d70" = 2.5
  dimension "d71" = 3
  dimension "d72" = 90
  dimension "d73" = 2.5
  dimension "d74" = 2.5
  dimension "d75" = 2.5
  dimension "d76" = 3
  dimension "d77" = 7
  dimension "d78" = 17
  dimension "d79" = 17
  dimension "d80" = 7
  dimension "d81" = 2.5
  dimension "d82" = 2.5
  dimension "d83" = 2.5
  dimension "d84" = 3
  dimension "d85" = 2.5
  dimension "d86" = 2.5
  dimension "d87" = 2.5
extrude "돌출9" cut sketch "스케치9" against normal blind 20 contours A3 | A4 | A5 | A2 L26 L11 | L11 L12 A2 | A1 L25 L10 | L10 L11 A1 | A0 L24 L9 | L9 L10 A0 | L24 A0 L10 | L25 A1 L11 | L26 A2 L12 | A9 | A10 | A11 | A8 L21 L18 | L18 L19 A8 | A7 L22 L17 | L17 L18 A7 | A6 L23 L16 | L16 L17 A6 | L23 A6 L17 | L22 A7 L18 | L21 A8 L19
properties part number "12" material "아크릴, 선명"
